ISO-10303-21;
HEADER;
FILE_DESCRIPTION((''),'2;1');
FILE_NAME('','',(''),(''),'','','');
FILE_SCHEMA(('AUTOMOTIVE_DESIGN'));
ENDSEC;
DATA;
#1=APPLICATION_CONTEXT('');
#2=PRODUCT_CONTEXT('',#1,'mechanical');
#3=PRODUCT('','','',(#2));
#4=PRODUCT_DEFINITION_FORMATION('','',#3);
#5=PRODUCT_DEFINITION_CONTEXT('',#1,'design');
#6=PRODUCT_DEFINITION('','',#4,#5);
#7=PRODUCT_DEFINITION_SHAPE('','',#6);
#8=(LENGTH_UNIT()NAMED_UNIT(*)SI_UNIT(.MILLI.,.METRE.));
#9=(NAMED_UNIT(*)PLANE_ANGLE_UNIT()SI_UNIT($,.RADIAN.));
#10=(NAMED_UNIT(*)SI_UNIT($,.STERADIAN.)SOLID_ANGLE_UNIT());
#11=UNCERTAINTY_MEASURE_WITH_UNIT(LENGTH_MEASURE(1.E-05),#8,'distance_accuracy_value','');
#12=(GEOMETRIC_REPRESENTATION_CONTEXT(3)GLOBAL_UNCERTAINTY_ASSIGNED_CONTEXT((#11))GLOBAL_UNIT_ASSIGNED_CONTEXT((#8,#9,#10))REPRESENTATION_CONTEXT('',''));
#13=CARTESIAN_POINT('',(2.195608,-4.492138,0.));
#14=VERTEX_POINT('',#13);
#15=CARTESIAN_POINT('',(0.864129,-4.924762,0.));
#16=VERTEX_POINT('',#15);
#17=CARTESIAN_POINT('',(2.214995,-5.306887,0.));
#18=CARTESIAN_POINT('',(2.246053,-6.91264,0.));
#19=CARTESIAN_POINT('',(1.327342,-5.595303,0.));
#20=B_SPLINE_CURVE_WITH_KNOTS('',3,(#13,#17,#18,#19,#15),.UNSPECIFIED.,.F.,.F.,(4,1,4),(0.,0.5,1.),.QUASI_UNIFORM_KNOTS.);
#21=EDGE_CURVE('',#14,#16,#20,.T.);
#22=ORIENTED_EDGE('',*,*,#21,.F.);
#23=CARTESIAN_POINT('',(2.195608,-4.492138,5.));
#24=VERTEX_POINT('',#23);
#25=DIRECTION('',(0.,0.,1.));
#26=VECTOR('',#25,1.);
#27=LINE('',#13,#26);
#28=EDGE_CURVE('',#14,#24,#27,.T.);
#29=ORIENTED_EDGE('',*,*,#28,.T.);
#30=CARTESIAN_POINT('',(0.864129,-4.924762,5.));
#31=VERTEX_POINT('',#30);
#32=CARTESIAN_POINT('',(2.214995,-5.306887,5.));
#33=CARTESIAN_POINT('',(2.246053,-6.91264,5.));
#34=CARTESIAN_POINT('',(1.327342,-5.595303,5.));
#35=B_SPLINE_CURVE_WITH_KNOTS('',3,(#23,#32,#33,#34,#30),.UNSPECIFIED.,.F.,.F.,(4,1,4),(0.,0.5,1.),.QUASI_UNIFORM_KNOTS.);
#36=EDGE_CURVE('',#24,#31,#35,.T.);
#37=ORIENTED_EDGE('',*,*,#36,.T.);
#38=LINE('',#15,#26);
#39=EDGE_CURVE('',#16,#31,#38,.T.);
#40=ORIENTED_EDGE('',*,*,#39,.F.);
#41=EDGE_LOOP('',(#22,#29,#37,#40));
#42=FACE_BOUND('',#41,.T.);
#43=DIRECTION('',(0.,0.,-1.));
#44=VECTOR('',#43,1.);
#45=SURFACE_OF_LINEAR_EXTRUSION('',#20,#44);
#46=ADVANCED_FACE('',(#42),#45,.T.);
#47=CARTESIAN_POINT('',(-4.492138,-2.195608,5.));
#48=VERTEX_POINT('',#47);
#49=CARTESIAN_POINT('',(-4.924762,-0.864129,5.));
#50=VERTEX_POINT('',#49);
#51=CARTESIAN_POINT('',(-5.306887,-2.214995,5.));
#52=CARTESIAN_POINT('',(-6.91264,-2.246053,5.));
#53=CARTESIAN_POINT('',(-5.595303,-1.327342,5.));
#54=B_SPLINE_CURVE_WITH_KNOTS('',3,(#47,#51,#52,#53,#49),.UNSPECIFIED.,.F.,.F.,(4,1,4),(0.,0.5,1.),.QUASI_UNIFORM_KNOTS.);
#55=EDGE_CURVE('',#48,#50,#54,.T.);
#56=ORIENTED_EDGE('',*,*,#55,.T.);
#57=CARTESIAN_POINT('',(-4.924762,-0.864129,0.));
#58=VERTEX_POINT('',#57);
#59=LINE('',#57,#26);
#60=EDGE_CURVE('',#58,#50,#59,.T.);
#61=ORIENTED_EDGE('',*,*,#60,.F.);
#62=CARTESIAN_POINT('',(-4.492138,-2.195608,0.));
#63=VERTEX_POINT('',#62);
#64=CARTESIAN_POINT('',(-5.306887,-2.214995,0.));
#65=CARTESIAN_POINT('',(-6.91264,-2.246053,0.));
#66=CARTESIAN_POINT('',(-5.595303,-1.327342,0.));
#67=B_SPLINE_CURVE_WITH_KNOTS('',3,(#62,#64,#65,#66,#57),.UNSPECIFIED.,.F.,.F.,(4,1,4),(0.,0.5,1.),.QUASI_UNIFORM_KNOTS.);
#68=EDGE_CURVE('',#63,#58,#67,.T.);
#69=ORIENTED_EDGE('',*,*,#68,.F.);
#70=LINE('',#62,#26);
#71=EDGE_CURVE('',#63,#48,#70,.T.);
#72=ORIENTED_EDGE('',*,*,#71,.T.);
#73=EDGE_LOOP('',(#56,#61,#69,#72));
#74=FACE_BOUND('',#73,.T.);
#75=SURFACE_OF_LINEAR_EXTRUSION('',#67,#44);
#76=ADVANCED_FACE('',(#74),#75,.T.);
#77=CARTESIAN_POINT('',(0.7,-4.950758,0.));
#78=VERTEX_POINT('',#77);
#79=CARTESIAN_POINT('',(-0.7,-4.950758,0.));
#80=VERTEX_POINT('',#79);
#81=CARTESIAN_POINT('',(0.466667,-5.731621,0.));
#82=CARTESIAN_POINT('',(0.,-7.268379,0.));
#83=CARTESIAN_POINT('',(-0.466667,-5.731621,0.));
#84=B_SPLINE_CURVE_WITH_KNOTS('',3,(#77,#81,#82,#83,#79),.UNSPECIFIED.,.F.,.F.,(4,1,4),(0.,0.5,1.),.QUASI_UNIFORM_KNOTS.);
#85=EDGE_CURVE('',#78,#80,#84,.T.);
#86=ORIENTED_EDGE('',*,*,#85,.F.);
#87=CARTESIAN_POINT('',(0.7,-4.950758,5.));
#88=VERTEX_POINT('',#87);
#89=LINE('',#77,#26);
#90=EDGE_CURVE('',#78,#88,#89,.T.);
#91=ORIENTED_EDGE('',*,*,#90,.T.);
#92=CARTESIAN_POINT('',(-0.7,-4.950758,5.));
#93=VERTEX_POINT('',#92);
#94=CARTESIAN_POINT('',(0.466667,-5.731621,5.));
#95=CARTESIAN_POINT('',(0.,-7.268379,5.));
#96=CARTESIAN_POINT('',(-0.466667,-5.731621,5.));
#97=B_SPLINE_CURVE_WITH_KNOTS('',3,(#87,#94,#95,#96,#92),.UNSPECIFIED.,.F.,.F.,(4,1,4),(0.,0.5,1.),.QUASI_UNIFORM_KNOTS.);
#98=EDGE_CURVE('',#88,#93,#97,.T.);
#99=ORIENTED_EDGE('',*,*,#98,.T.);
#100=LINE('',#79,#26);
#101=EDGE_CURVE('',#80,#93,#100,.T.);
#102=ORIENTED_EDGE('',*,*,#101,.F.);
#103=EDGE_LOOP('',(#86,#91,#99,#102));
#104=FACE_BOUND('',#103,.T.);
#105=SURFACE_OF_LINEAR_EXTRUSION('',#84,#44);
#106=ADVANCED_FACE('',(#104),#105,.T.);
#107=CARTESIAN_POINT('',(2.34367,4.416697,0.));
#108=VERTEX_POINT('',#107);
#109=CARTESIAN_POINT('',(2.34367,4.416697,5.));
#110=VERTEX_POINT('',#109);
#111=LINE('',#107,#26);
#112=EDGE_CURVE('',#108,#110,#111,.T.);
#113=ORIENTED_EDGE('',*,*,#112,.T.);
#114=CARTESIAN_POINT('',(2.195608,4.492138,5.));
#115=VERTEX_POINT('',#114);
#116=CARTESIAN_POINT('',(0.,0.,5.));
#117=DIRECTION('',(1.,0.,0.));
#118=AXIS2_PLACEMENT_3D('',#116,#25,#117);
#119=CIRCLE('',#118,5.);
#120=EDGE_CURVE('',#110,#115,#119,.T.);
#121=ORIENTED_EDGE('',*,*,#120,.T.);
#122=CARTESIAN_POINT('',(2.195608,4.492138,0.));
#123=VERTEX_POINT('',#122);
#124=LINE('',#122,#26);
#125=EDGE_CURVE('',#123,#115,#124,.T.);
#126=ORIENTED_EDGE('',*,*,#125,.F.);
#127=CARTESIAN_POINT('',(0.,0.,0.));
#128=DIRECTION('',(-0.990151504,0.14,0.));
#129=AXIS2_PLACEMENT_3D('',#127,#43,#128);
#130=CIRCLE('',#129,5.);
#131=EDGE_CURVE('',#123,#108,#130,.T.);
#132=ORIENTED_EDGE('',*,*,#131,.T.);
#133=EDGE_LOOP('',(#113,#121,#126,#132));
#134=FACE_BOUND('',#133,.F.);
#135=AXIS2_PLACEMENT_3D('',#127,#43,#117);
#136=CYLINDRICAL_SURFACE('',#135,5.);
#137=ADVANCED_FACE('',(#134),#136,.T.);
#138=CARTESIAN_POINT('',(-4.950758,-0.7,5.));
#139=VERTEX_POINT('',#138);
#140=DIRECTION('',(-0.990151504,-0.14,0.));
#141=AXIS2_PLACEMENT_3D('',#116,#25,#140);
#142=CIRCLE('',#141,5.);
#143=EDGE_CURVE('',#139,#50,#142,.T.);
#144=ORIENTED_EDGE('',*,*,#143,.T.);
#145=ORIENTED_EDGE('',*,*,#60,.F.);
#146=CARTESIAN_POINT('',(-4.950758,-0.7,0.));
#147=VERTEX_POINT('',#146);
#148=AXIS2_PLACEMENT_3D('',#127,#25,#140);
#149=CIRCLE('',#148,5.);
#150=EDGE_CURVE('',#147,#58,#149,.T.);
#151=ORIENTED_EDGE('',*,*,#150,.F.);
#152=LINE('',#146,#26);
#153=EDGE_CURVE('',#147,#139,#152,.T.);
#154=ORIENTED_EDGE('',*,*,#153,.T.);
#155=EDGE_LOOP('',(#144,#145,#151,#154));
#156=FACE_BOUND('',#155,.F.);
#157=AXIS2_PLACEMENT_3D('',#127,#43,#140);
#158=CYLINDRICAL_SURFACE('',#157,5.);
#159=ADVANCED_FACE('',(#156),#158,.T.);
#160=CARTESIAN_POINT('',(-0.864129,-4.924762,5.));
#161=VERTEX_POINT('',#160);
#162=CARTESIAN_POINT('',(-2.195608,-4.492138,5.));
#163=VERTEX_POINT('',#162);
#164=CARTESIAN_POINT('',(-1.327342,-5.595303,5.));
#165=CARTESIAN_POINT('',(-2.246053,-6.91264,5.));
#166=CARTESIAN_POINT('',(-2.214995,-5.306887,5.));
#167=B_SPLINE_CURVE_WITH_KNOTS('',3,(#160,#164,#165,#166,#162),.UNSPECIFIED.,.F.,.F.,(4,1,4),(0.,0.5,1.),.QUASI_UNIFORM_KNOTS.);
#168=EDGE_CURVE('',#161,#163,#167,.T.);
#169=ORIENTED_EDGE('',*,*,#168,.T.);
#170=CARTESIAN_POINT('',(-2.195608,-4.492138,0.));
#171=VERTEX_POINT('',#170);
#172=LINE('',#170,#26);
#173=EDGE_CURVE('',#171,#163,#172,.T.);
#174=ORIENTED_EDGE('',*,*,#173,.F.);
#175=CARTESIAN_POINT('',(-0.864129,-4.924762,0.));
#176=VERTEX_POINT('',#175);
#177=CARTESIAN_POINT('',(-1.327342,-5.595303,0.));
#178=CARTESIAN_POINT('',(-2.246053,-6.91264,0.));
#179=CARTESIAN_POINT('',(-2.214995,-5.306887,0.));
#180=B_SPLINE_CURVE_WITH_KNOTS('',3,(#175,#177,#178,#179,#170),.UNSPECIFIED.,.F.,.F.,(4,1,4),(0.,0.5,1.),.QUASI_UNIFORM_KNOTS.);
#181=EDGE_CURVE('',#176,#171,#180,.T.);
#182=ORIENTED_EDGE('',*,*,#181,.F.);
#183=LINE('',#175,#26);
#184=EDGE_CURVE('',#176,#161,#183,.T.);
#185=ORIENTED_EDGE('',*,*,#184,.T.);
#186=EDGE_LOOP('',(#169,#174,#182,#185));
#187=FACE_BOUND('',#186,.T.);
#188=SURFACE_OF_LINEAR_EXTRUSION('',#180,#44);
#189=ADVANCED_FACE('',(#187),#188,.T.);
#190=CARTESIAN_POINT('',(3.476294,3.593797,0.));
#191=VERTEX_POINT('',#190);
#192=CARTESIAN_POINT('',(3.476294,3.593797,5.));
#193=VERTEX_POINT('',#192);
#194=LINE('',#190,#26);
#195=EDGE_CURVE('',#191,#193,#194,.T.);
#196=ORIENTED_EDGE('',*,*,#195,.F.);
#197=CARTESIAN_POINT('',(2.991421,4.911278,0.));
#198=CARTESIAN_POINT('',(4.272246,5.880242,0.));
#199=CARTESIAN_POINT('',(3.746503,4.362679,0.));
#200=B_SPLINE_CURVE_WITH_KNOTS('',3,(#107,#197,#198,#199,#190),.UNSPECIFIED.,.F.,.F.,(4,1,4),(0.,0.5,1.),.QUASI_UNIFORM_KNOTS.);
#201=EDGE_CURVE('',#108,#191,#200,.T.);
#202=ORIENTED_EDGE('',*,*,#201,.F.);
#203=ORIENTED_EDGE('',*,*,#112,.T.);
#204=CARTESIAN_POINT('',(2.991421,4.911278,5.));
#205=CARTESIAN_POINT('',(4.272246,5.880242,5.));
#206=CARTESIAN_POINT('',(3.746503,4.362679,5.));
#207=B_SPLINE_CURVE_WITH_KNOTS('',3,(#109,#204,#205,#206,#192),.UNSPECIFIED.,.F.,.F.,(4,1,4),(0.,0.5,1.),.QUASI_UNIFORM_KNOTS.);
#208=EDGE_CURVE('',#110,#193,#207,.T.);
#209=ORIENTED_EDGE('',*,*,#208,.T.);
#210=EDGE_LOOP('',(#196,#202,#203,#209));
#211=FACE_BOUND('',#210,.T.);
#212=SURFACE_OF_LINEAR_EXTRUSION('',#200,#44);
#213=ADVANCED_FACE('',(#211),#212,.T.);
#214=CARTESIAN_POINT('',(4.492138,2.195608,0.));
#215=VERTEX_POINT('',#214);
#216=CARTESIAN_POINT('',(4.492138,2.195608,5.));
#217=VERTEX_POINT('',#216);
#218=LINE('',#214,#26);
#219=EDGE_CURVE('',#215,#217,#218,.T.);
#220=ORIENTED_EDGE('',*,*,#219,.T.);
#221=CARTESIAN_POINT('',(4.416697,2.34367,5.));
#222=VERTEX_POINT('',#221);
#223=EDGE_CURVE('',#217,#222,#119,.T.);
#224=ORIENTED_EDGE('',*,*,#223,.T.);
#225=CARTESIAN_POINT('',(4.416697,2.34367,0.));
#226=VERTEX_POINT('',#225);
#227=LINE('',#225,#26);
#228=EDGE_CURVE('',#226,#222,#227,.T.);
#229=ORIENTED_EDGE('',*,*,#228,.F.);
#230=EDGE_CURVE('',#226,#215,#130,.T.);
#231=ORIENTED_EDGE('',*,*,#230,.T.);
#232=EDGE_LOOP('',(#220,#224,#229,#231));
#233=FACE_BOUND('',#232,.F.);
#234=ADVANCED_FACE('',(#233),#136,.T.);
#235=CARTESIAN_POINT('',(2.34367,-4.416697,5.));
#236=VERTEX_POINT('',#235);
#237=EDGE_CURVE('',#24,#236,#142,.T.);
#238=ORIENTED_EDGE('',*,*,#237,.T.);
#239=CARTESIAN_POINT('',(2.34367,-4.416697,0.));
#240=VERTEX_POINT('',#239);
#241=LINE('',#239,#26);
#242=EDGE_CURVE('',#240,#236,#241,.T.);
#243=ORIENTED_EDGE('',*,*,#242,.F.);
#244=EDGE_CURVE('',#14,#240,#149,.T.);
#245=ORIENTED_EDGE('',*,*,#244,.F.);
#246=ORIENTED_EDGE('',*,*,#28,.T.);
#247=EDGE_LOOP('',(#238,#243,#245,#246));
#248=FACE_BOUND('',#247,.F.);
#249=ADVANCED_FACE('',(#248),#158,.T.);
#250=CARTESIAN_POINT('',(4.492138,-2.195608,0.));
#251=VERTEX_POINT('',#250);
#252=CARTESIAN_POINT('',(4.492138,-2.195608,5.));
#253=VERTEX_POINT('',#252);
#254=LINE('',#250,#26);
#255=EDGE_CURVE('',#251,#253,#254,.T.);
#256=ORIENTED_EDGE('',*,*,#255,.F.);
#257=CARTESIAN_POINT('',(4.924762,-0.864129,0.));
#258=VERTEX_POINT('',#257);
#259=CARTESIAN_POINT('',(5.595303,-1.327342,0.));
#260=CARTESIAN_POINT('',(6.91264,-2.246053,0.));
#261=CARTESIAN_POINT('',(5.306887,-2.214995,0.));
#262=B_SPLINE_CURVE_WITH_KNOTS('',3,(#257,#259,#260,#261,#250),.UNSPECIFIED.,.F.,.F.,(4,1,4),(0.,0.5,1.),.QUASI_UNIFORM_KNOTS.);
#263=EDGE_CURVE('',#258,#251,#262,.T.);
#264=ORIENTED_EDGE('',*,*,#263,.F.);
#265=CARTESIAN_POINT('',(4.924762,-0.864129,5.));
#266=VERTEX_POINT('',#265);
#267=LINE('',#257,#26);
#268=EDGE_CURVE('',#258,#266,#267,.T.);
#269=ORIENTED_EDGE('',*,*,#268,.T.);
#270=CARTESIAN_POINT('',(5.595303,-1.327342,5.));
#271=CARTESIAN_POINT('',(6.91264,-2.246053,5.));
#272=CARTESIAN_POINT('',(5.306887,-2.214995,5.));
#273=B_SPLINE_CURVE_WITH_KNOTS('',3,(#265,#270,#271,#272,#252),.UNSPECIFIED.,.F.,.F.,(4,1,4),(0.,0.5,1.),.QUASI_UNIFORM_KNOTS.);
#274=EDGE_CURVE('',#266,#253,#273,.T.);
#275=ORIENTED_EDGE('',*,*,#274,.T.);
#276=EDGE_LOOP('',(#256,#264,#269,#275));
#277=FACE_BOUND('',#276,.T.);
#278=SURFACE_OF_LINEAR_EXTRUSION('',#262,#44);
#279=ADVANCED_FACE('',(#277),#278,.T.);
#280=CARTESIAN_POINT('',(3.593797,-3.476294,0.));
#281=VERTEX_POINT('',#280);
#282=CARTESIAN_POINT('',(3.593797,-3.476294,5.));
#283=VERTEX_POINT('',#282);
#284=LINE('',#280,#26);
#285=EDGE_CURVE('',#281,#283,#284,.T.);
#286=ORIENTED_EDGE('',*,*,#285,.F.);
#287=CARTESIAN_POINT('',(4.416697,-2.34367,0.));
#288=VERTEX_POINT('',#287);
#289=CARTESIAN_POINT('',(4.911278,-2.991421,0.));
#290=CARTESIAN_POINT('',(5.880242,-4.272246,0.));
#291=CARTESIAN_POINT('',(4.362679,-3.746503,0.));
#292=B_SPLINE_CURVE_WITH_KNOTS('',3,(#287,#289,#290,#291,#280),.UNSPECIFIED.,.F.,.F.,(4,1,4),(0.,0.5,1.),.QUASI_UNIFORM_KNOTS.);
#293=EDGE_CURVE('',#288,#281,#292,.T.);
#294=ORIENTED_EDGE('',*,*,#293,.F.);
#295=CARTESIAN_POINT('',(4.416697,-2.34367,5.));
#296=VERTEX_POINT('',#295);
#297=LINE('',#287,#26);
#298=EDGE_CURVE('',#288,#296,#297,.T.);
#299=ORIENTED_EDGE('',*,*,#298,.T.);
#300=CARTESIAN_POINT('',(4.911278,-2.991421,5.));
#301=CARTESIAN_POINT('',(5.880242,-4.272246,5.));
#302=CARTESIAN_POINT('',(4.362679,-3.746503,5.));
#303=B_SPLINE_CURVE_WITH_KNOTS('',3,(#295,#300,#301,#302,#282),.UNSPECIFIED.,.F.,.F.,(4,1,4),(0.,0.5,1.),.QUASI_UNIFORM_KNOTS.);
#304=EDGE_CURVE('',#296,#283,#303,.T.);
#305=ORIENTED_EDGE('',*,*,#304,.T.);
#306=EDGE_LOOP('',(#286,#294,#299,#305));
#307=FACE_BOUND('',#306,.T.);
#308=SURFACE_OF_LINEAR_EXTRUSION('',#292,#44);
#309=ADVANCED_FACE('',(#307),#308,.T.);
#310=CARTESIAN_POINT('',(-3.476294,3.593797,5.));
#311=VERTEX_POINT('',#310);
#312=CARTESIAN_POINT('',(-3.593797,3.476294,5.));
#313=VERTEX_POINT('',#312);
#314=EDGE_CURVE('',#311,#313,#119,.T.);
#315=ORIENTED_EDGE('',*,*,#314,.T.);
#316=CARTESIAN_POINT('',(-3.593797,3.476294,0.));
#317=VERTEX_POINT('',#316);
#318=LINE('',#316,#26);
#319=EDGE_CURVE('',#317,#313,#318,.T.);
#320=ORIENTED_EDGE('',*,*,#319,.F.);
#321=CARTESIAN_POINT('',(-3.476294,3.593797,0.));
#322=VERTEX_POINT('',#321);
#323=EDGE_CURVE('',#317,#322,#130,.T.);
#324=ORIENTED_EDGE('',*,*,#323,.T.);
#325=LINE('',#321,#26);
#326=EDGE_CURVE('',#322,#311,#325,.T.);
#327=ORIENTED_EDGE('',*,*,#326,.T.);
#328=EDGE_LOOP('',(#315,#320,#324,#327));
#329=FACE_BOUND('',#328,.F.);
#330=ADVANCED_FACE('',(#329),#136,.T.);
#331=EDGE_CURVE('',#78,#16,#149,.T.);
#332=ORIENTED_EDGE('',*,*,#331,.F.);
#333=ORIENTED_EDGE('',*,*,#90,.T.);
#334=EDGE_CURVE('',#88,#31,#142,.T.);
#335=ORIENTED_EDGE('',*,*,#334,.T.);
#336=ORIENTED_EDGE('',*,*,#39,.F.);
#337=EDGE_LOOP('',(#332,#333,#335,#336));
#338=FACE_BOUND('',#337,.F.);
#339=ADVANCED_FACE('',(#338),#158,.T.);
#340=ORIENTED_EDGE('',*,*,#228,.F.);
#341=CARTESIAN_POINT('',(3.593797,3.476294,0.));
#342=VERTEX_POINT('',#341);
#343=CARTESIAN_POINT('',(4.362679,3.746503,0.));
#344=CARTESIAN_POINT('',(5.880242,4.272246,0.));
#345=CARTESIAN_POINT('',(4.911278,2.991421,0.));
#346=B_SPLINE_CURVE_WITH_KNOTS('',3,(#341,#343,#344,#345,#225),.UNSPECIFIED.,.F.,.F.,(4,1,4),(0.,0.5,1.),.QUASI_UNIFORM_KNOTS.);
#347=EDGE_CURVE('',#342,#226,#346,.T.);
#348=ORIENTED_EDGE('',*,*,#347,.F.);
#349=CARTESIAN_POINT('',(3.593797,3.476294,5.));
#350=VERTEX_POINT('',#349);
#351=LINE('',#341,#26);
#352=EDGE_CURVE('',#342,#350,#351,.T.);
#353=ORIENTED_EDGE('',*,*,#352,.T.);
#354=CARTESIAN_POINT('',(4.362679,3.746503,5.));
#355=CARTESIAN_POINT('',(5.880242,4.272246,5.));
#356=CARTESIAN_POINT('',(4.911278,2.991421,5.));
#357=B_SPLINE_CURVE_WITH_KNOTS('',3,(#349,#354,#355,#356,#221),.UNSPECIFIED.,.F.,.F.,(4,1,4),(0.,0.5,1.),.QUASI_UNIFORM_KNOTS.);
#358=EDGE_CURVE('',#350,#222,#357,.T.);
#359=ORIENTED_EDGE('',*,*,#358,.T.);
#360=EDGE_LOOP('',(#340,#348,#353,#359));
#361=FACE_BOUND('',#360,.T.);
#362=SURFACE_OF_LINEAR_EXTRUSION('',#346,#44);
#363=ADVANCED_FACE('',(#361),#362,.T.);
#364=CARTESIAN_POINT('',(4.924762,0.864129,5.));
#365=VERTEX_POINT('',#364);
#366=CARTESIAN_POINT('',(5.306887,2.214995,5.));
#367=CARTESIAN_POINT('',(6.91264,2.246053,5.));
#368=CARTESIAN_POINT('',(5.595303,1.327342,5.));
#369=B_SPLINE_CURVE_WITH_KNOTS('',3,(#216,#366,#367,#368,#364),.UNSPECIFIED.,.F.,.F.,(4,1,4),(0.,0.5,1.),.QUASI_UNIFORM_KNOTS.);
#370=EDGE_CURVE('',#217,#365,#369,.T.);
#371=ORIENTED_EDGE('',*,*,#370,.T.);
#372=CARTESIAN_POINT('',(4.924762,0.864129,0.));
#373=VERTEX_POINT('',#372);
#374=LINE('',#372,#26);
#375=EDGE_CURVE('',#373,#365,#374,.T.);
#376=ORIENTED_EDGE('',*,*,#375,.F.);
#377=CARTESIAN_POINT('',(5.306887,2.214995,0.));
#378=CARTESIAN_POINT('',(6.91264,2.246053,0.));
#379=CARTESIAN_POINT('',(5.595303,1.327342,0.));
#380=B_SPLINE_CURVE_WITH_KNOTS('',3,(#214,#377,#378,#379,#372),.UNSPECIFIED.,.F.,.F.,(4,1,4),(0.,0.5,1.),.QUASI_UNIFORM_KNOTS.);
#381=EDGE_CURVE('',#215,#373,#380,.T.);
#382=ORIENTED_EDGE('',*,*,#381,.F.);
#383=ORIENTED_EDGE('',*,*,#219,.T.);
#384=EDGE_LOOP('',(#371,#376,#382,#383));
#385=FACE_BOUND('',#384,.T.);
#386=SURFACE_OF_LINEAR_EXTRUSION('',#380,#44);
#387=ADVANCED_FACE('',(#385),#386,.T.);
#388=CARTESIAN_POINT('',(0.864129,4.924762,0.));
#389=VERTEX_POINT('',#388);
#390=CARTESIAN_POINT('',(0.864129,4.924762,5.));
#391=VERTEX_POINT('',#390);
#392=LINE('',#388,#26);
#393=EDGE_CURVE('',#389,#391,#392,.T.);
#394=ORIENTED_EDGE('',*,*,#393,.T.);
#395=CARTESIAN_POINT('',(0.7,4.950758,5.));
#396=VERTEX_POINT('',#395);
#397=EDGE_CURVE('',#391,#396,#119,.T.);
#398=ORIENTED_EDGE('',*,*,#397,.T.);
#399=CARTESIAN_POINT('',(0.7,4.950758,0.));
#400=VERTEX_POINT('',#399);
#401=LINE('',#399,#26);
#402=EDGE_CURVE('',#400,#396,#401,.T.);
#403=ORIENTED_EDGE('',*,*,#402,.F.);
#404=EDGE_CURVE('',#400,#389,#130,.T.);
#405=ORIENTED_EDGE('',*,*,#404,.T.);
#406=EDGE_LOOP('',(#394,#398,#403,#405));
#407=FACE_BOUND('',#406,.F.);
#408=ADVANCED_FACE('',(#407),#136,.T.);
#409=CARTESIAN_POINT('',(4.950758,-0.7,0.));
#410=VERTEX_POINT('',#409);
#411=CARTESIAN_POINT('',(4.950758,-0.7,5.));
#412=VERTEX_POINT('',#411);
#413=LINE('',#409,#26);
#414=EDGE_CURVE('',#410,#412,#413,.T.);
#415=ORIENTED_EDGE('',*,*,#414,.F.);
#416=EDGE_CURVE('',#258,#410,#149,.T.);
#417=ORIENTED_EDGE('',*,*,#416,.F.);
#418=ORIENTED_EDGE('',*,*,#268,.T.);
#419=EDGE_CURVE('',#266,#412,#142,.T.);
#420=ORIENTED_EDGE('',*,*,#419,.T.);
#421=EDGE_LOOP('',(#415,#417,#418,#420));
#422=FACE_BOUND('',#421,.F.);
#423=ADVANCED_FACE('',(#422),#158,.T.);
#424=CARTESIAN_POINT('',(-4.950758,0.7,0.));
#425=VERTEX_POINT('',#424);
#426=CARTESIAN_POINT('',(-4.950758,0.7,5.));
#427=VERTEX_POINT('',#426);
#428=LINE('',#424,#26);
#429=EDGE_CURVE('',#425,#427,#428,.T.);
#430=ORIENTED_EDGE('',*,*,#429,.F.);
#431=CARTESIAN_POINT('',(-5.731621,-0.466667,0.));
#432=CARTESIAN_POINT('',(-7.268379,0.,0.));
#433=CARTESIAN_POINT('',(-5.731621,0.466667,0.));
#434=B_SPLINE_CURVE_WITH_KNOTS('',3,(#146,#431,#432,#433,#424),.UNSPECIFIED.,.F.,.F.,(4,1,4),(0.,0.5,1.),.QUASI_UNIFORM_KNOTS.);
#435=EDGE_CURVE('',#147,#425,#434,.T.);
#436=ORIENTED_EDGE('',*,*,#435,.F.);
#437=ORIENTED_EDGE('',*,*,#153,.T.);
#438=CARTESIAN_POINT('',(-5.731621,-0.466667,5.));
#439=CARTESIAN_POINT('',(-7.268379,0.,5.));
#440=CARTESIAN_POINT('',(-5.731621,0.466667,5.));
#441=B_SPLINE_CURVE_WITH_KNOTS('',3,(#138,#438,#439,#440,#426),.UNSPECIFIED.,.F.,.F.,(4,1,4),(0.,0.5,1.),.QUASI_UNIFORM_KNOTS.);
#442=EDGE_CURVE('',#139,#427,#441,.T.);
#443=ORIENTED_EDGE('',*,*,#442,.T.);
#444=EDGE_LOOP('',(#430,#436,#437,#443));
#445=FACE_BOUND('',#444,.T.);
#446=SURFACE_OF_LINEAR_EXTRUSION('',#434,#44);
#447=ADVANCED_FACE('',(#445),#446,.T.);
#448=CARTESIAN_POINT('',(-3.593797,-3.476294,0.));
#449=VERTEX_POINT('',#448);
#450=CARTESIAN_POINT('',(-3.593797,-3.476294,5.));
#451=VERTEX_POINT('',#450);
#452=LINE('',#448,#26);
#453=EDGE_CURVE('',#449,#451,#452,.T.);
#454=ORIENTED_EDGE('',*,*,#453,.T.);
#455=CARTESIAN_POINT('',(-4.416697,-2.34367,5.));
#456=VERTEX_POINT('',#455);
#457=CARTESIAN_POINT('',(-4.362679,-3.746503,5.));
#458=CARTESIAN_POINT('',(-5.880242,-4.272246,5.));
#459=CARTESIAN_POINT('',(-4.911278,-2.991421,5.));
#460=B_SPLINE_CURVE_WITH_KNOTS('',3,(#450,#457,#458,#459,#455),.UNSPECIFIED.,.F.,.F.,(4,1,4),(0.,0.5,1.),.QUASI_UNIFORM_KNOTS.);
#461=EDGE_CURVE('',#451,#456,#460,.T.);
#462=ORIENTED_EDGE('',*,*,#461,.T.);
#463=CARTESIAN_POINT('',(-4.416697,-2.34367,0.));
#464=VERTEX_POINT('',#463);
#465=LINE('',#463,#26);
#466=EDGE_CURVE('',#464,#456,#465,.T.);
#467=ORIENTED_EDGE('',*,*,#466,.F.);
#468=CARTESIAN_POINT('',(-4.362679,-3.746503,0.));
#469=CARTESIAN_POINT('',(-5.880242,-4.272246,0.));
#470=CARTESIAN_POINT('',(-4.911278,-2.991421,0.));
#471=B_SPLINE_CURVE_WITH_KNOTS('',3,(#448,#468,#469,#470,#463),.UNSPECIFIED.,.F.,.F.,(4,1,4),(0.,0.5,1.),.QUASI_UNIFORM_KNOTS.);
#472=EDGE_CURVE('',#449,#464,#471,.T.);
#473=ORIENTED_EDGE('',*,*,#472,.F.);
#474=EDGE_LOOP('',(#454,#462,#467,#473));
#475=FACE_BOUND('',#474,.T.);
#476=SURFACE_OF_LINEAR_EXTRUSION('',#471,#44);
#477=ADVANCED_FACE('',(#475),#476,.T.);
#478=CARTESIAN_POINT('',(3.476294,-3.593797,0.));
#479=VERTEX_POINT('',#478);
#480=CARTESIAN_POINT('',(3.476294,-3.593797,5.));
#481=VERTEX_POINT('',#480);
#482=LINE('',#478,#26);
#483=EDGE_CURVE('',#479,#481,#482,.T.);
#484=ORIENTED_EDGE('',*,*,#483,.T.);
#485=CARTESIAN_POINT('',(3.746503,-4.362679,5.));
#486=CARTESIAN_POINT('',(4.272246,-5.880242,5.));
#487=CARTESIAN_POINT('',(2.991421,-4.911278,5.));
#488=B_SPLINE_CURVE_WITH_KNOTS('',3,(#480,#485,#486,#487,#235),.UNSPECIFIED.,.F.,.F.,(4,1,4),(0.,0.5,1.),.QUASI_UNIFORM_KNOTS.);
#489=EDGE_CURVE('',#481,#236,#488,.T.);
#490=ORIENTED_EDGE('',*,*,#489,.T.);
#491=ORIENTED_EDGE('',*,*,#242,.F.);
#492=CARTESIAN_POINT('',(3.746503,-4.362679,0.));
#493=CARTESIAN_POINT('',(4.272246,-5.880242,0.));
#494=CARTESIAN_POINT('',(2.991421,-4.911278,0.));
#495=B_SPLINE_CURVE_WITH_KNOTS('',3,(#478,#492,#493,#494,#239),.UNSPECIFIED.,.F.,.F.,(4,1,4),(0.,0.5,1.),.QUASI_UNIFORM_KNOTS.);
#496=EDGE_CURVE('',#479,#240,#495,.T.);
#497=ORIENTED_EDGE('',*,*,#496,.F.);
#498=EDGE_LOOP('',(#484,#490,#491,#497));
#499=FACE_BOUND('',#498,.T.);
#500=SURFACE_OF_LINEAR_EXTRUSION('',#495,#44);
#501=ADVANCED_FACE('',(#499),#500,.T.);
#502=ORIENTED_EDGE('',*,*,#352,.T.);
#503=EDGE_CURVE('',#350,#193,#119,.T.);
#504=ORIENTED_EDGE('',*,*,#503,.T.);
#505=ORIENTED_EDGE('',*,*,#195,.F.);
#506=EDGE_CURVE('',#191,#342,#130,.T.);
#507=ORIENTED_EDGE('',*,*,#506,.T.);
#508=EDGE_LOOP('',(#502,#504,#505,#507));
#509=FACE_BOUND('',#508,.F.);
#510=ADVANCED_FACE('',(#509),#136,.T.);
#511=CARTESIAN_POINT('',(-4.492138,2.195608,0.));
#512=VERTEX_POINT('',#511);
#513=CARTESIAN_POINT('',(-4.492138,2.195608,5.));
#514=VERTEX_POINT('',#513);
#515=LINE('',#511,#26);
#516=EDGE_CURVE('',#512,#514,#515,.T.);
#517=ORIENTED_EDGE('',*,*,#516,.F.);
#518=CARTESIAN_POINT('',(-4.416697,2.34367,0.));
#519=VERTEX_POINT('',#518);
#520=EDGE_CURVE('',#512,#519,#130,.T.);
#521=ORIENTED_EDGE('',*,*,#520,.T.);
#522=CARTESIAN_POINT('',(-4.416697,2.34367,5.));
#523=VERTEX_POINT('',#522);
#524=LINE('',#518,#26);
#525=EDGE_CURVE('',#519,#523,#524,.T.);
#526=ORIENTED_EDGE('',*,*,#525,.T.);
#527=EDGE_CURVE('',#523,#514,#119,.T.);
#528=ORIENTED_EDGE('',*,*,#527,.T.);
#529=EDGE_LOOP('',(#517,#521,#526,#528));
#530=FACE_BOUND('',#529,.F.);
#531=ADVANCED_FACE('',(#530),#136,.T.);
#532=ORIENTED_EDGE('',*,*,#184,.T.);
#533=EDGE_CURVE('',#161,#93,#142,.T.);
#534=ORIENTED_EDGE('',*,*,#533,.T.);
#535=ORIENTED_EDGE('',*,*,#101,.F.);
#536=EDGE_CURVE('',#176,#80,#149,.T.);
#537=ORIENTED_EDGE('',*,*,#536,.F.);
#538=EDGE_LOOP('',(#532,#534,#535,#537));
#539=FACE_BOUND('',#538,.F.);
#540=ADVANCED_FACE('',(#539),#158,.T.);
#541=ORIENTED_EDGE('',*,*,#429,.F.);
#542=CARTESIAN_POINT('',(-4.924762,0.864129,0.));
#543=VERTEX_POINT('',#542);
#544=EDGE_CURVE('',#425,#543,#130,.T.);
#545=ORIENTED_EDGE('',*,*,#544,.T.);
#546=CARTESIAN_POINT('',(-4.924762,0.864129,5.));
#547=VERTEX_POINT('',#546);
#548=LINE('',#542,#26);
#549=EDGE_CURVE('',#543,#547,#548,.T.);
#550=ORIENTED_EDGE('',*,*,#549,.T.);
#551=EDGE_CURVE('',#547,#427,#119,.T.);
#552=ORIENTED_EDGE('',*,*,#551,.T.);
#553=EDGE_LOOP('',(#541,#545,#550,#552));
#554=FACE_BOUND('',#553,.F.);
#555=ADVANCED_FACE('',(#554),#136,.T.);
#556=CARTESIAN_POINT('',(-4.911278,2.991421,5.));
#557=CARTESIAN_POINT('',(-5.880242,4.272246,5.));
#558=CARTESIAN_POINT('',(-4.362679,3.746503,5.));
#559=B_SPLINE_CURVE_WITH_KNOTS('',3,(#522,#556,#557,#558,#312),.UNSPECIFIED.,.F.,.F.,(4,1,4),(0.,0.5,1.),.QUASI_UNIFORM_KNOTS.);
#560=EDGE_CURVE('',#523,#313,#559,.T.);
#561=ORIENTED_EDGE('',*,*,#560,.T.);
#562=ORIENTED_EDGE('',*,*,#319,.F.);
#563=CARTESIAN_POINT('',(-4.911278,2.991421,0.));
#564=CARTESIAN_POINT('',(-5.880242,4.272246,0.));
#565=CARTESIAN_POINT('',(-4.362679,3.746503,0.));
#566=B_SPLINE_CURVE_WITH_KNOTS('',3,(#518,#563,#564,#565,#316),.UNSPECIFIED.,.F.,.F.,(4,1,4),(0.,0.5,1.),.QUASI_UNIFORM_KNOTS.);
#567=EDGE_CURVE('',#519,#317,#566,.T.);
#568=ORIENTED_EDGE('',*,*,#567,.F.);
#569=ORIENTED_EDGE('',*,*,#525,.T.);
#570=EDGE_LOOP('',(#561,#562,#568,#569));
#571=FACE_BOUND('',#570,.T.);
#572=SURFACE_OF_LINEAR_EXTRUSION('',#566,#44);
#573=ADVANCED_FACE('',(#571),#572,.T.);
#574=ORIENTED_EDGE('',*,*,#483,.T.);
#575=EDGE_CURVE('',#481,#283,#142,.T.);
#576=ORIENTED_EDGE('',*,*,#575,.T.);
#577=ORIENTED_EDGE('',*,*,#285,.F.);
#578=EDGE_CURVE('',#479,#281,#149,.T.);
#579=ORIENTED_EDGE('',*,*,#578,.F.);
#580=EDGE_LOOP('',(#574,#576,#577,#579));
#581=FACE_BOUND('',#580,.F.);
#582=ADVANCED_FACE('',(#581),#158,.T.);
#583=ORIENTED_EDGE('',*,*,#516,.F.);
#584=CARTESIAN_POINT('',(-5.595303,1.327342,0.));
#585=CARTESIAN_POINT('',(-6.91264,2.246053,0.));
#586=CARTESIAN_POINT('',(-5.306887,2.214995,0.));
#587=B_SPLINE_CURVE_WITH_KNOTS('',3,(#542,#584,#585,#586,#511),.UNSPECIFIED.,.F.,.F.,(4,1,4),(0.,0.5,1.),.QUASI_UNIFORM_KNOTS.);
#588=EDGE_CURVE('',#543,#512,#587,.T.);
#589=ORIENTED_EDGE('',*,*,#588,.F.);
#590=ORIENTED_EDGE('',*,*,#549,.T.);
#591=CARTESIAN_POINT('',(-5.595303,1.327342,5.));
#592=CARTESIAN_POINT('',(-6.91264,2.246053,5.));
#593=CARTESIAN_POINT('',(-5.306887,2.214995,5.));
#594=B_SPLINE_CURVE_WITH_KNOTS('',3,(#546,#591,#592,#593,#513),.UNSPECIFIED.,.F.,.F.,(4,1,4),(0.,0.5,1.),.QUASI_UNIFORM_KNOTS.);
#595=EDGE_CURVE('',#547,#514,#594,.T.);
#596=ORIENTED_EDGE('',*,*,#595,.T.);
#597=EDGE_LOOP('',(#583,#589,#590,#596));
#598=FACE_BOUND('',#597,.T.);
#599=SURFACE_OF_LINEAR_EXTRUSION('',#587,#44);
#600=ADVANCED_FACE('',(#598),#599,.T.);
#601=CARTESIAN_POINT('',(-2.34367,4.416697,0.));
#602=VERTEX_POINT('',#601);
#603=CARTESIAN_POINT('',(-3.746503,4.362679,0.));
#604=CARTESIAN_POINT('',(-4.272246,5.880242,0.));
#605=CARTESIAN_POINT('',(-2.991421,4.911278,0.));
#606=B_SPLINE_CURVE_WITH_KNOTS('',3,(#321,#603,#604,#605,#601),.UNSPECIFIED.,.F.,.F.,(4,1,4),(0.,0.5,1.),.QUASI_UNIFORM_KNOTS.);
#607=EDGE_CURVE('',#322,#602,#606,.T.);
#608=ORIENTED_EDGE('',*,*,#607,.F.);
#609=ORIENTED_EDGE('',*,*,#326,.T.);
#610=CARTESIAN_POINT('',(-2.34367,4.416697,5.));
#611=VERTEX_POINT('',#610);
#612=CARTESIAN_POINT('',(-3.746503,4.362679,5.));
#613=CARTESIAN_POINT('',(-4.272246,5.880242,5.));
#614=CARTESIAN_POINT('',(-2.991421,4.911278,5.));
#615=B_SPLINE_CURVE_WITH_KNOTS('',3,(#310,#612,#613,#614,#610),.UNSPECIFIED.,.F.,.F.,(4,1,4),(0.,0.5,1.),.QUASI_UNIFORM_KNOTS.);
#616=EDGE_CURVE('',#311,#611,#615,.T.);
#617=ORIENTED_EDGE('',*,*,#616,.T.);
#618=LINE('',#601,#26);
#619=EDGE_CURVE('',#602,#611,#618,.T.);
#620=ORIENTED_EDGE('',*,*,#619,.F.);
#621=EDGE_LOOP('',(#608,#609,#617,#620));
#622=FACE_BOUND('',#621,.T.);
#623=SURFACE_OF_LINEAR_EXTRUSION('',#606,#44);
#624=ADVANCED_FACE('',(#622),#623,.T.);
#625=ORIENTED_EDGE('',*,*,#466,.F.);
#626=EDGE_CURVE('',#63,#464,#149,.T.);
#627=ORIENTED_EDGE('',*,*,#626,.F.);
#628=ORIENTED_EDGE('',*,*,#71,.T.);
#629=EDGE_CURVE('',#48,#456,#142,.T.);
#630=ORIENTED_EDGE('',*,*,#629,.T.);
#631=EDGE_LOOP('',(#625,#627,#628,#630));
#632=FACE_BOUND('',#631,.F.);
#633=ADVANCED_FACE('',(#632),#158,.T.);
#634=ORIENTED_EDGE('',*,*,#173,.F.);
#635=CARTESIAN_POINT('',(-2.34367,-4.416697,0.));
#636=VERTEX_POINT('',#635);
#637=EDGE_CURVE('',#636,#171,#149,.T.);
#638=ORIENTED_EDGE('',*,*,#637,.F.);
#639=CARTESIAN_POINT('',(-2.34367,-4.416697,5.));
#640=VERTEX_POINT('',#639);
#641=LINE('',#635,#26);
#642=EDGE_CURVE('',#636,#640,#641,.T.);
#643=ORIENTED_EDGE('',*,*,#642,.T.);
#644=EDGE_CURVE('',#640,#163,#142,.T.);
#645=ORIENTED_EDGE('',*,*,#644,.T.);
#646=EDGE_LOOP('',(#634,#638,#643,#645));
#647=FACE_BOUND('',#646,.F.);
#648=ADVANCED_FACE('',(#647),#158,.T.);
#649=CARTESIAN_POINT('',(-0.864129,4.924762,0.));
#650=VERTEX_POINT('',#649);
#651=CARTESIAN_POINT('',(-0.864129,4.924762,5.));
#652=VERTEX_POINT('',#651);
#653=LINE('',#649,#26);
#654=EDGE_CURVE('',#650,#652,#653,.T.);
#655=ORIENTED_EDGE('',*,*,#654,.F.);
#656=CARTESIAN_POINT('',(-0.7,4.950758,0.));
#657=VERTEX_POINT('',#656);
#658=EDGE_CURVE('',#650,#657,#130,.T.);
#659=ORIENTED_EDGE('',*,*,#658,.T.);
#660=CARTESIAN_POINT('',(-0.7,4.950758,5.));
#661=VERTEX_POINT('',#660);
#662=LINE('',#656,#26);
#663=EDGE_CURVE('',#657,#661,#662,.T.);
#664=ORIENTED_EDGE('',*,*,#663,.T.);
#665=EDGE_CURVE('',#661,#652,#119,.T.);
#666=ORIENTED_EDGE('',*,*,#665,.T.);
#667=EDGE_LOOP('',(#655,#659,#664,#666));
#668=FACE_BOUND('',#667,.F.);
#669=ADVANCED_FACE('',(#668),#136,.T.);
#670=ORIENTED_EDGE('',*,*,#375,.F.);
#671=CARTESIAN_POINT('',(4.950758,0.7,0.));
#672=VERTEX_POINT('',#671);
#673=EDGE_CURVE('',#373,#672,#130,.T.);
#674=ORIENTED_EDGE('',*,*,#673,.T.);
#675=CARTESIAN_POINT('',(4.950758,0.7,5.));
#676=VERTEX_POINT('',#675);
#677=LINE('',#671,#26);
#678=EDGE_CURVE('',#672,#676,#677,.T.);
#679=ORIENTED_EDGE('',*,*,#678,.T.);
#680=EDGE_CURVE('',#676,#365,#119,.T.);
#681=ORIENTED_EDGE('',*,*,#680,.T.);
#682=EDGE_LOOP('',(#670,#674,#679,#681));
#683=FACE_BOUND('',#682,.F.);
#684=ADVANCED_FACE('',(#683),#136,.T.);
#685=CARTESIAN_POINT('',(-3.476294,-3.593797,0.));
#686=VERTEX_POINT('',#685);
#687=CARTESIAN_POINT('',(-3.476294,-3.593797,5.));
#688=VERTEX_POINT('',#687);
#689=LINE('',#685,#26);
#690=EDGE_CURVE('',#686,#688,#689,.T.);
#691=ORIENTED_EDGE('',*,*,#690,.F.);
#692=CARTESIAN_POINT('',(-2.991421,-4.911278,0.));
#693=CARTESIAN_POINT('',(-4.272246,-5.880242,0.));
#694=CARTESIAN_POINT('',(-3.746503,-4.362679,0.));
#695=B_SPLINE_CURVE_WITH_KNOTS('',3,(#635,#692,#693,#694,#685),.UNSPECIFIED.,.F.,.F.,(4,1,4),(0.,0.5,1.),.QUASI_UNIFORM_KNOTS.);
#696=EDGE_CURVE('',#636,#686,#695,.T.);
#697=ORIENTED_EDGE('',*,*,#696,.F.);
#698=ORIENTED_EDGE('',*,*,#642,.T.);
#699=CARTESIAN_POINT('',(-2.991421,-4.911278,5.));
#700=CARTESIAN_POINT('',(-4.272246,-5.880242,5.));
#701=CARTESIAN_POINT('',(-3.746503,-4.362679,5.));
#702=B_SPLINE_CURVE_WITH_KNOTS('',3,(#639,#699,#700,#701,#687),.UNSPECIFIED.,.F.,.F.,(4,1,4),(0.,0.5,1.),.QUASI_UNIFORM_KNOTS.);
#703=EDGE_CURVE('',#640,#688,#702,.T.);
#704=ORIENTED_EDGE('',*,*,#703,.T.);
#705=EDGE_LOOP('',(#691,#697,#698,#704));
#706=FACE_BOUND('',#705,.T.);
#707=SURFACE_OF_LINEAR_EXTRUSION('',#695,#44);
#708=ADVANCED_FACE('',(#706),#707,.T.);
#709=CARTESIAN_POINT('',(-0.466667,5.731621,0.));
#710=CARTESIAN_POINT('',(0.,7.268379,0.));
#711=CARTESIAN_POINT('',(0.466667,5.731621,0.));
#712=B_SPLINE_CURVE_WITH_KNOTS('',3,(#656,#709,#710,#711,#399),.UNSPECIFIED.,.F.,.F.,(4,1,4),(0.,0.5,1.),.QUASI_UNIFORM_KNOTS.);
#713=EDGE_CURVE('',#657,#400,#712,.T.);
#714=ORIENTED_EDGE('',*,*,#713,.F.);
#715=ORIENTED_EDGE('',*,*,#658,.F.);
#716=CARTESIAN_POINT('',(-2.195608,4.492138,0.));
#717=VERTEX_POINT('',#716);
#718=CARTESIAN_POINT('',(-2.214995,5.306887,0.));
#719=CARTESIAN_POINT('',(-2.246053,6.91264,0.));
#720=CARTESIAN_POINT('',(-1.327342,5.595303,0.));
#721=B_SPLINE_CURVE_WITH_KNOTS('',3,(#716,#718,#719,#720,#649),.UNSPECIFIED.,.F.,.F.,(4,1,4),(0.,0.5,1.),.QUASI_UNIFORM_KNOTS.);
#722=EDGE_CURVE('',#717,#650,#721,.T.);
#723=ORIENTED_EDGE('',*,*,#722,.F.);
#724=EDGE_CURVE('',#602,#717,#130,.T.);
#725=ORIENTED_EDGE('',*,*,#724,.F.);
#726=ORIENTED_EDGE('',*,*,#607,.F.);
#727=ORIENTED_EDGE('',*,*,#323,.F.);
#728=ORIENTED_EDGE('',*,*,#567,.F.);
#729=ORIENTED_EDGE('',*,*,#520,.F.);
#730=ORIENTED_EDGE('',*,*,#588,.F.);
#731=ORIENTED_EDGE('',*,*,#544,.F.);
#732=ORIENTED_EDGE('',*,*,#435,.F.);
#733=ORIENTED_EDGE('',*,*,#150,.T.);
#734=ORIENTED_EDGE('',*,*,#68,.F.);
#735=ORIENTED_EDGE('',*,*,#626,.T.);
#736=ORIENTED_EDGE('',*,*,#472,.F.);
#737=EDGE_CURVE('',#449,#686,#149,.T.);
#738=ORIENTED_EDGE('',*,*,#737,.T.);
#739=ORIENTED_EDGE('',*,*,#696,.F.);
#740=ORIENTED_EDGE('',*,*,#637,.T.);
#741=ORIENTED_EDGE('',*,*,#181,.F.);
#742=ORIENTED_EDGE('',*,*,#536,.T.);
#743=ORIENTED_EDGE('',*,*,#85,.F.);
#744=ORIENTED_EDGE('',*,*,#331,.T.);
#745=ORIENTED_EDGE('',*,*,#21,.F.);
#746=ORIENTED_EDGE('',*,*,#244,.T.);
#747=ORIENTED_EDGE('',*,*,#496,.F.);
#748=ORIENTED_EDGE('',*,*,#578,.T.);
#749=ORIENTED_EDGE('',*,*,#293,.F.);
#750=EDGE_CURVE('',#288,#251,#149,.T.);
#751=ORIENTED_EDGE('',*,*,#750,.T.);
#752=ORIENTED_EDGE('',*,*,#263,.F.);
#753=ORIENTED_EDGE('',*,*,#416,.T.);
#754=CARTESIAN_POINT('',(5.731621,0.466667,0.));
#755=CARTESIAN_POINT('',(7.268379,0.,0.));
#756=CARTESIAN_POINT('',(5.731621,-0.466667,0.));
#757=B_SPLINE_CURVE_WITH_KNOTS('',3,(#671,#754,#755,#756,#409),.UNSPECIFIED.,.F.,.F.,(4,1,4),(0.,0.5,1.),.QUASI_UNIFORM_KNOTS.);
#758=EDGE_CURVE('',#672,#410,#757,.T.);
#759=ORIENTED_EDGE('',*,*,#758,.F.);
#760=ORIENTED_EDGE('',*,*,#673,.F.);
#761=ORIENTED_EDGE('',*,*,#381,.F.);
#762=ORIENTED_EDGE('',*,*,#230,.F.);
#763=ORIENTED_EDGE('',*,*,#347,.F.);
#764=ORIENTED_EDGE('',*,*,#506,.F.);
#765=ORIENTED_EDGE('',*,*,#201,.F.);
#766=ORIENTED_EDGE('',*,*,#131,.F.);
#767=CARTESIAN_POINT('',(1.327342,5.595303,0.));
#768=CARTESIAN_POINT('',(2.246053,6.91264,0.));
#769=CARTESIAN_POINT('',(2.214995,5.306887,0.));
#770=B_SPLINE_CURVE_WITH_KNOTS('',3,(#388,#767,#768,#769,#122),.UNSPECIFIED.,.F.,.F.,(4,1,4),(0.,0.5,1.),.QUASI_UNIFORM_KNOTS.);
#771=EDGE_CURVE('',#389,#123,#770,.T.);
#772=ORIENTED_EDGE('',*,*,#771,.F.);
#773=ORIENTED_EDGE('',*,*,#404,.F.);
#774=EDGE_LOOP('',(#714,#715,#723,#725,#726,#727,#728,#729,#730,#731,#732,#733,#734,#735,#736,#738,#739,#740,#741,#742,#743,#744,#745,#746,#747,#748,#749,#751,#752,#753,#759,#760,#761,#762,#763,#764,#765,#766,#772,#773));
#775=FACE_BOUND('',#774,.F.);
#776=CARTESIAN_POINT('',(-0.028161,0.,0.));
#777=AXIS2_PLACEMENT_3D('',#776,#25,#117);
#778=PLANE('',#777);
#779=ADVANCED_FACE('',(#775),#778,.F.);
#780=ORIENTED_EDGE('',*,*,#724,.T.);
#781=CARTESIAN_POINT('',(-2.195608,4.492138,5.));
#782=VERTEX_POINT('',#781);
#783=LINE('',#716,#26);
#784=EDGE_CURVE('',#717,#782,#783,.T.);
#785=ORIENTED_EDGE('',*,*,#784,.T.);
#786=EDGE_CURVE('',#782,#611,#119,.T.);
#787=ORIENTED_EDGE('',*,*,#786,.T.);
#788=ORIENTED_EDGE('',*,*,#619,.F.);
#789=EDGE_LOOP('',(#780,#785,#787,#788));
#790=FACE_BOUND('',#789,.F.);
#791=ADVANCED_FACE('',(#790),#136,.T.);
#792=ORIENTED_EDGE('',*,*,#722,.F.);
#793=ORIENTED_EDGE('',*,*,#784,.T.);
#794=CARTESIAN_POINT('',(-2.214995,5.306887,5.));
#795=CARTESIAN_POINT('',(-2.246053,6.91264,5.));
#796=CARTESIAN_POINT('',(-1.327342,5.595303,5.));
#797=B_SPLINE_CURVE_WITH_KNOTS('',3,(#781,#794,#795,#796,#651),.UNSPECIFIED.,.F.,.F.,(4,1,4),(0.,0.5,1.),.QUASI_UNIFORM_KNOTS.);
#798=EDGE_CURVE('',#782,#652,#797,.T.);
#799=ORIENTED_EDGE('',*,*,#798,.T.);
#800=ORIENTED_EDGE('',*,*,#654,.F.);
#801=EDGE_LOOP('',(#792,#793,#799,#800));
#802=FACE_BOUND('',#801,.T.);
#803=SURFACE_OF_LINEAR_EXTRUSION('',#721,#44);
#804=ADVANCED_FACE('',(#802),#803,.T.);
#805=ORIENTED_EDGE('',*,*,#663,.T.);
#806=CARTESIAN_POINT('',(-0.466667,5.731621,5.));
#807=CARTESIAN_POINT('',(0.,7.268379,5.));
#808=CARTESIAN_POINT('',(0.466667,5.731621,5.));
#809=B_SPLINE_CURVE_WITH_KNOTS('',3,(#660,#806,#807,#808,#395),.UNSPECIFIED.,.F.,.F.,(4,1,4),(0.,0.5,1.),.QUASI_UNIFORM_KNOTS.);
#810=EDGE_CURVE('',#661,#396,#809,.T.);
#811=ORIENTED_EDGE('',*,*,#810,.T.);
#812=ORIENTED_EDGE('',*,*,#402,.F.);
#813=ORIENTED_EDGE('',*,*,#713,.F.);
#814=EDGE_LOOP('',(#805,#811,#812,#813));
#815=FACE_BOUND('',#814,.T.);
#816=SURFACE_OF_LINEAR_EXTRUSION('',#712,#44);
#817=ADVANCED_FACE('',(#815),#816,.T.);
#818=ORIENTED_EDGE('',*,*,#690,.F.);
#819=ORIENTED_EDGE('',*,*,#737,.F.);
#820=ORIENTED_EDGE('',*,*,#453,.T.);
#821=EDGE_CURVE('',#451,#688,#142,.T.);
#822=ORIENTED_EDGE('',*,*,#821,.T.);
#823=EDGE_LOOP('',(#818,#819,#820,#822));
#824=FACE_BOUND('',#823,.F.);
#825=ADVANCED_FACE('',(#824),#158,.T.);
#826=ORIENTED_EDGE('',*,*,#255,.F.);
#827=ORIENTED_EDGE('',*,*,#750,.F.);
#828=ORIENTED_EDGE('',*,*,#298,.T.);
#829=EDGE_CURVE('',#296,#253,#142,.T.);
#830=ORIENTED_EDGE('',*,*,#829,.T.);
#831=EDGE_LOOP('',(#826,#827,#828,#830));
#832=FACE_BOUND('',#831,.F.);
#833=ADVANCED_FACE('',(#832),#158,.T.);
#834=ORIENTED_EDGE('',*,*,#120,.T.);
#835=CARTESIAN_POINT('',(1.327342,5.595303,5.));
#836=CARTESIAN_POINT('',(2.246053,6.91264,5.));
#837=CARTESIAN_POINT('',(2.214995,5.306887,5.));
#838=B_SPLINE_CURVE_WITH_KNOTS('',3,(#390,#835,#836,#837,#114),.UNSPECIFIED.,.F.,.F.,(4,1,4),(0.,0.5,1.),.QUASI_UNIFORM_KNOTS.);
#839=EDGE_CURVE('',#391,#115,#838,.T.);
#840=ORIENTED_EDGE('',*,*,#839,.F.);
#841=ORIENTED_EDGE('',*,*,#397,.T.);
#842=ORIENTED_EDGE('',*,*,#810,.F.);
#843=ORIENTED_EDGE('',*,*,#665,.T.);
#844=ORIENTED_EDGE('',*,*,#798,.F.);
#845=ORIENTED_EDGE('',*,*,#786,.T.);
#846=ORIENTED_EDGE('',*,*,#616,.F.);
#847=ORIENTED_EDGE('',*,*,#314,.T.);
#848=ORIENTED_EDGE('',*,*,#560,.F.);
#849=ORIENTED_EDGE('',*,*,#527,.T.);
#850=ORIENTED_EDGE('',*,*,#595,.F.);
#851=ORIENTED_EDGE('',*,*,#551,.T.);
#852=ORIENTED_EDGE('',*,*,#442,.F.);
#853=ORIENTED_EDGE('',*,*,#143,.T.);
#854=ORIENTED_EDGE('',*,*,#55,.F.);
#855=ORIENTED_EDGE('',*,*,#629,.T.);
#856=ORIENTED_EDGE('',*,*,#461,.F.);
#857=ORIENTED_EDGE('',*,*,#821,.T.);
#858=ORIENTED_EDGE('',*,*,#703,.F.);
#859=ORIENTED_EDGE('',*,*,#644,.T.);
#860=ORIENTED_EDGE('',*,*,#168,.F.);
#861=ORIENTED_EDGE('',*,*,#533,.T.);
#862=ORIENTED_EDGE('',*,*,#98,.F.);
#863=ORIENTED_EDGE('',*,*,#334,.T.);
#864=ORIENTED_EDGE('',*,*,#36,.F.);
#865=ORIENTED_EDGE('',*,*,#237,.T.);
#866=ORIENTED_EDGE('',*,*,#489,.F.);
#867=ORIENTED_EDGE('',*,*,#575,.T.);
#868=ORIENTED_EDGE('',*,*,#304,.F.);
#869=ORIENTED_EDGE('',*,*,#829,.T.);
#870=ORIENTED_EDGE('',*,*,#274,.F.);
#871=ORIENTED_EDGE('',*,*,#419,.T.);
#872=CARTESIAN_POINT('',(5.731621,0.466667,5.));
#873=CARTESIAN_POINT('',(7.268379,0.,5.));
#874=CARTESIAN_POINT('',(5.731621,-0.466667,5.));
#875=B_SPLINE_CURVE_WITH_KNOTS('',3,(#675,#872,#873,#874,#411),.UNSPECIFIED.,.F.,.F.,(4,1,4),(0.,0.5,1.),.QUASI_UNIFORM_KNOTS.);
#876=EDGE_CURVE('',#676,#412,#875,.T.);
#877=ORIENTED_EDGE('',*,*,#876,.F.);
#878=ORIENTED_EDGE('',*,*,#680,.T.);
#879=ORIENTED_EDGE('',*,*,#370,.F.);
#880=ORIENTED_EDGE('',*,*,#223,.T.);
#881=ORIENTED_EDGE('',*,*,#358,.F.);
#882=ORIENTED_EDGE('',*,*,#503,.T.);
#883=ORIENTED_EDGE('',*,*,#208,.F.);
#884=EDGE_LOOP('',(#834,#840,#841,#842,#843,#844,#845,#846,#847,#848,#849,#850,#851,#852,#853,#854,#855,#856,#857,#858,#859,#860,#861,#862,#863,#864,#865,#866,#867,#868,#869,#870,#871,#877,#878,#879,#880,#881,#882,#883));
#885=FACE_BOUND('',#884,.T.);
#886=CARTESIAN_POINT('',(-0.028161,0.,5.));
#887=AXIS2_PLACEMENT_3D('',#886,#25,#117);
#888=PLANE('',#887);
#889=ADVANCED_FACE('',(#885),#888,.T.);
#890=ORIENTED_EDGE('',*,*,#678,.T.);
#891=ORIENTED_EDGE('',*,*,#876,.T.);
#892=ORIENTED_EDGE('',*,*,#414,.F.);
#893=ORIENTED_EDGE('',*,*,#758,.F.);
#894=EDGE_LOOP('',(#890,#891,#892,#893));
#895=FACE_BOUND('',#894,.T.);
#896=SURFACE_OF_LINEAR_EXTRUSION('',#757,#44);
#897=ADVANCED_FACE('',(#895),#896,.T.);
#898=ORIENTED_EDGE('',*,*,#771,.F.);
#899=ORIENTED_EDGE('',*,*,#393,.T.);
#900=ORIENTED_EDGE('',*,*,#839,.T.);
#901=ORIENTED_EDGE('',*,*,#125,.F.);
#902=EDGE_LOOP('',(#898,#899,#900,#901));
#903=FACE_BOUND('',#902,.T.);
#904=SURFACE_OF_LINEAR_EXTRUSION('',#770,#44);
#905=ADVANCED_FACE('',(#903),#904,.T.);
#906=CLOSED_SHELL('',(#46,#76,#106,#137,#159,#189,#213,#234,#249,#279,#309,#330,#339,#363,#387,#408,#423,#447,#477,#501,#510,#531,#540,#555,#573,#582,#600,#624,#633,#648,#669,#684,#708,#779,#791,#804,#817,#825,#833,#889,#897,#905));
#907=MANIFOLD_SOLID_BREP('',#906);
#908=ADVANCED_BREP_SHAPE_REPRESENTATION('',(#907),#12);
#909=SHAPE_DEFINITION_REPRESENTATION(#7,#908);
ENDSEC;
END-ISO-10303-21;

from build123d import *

# Parameters (mm, degrees)
F1_DEPTH = 5
F2_COUNT = 20


with BuildPart() as f1:
    # F0 (on Top) → F1 (new body)
    with BuildSketch(Plane.XY):
        with BuildLine():
            ThreePointArc((-4.9507575178, -0.7), (0.3508649391, -4.9876741869), (5, 0))
            ThreePointArc((5, 0), (0.3508649391, 4.9876741869), (-4.9507575178, 0.7))
            ThreePointArc((-4.9507575178, 0.7), (-5, 0), (-4.9507575178, -0.7))
        make_face()
        with BuildLine():
            ThreePointArc((-4.9507575178, -0.7), (-5, 0), (-4.9507575178, 0.7))
            add(Edge.make_bspline(
                [(-4.9507575178, -0.7), (-5.731620651, -0.4666666667), (-7.268379349, 0), (-5.731620651, 0.4666666667), (-4.9507575178, 0.7)],
                knots=[0, 0, 0, 0, 0.5, 1, 1, 1, 1], degree=3))
        make_face()
    extrude(amount=F1_DEPTH)

    # F2: F1 ×20 about axis
    f2_axis = Axis((0, 0, 0), (0, 0, 1))


with BuildPart() as f1_1:
    add(f1.part)
    for i in range(1, F2_COUNT):
        add(f1.part.rotate(f2_axis, i * 360 / F2_COUNT))


solid = f1_1.part
